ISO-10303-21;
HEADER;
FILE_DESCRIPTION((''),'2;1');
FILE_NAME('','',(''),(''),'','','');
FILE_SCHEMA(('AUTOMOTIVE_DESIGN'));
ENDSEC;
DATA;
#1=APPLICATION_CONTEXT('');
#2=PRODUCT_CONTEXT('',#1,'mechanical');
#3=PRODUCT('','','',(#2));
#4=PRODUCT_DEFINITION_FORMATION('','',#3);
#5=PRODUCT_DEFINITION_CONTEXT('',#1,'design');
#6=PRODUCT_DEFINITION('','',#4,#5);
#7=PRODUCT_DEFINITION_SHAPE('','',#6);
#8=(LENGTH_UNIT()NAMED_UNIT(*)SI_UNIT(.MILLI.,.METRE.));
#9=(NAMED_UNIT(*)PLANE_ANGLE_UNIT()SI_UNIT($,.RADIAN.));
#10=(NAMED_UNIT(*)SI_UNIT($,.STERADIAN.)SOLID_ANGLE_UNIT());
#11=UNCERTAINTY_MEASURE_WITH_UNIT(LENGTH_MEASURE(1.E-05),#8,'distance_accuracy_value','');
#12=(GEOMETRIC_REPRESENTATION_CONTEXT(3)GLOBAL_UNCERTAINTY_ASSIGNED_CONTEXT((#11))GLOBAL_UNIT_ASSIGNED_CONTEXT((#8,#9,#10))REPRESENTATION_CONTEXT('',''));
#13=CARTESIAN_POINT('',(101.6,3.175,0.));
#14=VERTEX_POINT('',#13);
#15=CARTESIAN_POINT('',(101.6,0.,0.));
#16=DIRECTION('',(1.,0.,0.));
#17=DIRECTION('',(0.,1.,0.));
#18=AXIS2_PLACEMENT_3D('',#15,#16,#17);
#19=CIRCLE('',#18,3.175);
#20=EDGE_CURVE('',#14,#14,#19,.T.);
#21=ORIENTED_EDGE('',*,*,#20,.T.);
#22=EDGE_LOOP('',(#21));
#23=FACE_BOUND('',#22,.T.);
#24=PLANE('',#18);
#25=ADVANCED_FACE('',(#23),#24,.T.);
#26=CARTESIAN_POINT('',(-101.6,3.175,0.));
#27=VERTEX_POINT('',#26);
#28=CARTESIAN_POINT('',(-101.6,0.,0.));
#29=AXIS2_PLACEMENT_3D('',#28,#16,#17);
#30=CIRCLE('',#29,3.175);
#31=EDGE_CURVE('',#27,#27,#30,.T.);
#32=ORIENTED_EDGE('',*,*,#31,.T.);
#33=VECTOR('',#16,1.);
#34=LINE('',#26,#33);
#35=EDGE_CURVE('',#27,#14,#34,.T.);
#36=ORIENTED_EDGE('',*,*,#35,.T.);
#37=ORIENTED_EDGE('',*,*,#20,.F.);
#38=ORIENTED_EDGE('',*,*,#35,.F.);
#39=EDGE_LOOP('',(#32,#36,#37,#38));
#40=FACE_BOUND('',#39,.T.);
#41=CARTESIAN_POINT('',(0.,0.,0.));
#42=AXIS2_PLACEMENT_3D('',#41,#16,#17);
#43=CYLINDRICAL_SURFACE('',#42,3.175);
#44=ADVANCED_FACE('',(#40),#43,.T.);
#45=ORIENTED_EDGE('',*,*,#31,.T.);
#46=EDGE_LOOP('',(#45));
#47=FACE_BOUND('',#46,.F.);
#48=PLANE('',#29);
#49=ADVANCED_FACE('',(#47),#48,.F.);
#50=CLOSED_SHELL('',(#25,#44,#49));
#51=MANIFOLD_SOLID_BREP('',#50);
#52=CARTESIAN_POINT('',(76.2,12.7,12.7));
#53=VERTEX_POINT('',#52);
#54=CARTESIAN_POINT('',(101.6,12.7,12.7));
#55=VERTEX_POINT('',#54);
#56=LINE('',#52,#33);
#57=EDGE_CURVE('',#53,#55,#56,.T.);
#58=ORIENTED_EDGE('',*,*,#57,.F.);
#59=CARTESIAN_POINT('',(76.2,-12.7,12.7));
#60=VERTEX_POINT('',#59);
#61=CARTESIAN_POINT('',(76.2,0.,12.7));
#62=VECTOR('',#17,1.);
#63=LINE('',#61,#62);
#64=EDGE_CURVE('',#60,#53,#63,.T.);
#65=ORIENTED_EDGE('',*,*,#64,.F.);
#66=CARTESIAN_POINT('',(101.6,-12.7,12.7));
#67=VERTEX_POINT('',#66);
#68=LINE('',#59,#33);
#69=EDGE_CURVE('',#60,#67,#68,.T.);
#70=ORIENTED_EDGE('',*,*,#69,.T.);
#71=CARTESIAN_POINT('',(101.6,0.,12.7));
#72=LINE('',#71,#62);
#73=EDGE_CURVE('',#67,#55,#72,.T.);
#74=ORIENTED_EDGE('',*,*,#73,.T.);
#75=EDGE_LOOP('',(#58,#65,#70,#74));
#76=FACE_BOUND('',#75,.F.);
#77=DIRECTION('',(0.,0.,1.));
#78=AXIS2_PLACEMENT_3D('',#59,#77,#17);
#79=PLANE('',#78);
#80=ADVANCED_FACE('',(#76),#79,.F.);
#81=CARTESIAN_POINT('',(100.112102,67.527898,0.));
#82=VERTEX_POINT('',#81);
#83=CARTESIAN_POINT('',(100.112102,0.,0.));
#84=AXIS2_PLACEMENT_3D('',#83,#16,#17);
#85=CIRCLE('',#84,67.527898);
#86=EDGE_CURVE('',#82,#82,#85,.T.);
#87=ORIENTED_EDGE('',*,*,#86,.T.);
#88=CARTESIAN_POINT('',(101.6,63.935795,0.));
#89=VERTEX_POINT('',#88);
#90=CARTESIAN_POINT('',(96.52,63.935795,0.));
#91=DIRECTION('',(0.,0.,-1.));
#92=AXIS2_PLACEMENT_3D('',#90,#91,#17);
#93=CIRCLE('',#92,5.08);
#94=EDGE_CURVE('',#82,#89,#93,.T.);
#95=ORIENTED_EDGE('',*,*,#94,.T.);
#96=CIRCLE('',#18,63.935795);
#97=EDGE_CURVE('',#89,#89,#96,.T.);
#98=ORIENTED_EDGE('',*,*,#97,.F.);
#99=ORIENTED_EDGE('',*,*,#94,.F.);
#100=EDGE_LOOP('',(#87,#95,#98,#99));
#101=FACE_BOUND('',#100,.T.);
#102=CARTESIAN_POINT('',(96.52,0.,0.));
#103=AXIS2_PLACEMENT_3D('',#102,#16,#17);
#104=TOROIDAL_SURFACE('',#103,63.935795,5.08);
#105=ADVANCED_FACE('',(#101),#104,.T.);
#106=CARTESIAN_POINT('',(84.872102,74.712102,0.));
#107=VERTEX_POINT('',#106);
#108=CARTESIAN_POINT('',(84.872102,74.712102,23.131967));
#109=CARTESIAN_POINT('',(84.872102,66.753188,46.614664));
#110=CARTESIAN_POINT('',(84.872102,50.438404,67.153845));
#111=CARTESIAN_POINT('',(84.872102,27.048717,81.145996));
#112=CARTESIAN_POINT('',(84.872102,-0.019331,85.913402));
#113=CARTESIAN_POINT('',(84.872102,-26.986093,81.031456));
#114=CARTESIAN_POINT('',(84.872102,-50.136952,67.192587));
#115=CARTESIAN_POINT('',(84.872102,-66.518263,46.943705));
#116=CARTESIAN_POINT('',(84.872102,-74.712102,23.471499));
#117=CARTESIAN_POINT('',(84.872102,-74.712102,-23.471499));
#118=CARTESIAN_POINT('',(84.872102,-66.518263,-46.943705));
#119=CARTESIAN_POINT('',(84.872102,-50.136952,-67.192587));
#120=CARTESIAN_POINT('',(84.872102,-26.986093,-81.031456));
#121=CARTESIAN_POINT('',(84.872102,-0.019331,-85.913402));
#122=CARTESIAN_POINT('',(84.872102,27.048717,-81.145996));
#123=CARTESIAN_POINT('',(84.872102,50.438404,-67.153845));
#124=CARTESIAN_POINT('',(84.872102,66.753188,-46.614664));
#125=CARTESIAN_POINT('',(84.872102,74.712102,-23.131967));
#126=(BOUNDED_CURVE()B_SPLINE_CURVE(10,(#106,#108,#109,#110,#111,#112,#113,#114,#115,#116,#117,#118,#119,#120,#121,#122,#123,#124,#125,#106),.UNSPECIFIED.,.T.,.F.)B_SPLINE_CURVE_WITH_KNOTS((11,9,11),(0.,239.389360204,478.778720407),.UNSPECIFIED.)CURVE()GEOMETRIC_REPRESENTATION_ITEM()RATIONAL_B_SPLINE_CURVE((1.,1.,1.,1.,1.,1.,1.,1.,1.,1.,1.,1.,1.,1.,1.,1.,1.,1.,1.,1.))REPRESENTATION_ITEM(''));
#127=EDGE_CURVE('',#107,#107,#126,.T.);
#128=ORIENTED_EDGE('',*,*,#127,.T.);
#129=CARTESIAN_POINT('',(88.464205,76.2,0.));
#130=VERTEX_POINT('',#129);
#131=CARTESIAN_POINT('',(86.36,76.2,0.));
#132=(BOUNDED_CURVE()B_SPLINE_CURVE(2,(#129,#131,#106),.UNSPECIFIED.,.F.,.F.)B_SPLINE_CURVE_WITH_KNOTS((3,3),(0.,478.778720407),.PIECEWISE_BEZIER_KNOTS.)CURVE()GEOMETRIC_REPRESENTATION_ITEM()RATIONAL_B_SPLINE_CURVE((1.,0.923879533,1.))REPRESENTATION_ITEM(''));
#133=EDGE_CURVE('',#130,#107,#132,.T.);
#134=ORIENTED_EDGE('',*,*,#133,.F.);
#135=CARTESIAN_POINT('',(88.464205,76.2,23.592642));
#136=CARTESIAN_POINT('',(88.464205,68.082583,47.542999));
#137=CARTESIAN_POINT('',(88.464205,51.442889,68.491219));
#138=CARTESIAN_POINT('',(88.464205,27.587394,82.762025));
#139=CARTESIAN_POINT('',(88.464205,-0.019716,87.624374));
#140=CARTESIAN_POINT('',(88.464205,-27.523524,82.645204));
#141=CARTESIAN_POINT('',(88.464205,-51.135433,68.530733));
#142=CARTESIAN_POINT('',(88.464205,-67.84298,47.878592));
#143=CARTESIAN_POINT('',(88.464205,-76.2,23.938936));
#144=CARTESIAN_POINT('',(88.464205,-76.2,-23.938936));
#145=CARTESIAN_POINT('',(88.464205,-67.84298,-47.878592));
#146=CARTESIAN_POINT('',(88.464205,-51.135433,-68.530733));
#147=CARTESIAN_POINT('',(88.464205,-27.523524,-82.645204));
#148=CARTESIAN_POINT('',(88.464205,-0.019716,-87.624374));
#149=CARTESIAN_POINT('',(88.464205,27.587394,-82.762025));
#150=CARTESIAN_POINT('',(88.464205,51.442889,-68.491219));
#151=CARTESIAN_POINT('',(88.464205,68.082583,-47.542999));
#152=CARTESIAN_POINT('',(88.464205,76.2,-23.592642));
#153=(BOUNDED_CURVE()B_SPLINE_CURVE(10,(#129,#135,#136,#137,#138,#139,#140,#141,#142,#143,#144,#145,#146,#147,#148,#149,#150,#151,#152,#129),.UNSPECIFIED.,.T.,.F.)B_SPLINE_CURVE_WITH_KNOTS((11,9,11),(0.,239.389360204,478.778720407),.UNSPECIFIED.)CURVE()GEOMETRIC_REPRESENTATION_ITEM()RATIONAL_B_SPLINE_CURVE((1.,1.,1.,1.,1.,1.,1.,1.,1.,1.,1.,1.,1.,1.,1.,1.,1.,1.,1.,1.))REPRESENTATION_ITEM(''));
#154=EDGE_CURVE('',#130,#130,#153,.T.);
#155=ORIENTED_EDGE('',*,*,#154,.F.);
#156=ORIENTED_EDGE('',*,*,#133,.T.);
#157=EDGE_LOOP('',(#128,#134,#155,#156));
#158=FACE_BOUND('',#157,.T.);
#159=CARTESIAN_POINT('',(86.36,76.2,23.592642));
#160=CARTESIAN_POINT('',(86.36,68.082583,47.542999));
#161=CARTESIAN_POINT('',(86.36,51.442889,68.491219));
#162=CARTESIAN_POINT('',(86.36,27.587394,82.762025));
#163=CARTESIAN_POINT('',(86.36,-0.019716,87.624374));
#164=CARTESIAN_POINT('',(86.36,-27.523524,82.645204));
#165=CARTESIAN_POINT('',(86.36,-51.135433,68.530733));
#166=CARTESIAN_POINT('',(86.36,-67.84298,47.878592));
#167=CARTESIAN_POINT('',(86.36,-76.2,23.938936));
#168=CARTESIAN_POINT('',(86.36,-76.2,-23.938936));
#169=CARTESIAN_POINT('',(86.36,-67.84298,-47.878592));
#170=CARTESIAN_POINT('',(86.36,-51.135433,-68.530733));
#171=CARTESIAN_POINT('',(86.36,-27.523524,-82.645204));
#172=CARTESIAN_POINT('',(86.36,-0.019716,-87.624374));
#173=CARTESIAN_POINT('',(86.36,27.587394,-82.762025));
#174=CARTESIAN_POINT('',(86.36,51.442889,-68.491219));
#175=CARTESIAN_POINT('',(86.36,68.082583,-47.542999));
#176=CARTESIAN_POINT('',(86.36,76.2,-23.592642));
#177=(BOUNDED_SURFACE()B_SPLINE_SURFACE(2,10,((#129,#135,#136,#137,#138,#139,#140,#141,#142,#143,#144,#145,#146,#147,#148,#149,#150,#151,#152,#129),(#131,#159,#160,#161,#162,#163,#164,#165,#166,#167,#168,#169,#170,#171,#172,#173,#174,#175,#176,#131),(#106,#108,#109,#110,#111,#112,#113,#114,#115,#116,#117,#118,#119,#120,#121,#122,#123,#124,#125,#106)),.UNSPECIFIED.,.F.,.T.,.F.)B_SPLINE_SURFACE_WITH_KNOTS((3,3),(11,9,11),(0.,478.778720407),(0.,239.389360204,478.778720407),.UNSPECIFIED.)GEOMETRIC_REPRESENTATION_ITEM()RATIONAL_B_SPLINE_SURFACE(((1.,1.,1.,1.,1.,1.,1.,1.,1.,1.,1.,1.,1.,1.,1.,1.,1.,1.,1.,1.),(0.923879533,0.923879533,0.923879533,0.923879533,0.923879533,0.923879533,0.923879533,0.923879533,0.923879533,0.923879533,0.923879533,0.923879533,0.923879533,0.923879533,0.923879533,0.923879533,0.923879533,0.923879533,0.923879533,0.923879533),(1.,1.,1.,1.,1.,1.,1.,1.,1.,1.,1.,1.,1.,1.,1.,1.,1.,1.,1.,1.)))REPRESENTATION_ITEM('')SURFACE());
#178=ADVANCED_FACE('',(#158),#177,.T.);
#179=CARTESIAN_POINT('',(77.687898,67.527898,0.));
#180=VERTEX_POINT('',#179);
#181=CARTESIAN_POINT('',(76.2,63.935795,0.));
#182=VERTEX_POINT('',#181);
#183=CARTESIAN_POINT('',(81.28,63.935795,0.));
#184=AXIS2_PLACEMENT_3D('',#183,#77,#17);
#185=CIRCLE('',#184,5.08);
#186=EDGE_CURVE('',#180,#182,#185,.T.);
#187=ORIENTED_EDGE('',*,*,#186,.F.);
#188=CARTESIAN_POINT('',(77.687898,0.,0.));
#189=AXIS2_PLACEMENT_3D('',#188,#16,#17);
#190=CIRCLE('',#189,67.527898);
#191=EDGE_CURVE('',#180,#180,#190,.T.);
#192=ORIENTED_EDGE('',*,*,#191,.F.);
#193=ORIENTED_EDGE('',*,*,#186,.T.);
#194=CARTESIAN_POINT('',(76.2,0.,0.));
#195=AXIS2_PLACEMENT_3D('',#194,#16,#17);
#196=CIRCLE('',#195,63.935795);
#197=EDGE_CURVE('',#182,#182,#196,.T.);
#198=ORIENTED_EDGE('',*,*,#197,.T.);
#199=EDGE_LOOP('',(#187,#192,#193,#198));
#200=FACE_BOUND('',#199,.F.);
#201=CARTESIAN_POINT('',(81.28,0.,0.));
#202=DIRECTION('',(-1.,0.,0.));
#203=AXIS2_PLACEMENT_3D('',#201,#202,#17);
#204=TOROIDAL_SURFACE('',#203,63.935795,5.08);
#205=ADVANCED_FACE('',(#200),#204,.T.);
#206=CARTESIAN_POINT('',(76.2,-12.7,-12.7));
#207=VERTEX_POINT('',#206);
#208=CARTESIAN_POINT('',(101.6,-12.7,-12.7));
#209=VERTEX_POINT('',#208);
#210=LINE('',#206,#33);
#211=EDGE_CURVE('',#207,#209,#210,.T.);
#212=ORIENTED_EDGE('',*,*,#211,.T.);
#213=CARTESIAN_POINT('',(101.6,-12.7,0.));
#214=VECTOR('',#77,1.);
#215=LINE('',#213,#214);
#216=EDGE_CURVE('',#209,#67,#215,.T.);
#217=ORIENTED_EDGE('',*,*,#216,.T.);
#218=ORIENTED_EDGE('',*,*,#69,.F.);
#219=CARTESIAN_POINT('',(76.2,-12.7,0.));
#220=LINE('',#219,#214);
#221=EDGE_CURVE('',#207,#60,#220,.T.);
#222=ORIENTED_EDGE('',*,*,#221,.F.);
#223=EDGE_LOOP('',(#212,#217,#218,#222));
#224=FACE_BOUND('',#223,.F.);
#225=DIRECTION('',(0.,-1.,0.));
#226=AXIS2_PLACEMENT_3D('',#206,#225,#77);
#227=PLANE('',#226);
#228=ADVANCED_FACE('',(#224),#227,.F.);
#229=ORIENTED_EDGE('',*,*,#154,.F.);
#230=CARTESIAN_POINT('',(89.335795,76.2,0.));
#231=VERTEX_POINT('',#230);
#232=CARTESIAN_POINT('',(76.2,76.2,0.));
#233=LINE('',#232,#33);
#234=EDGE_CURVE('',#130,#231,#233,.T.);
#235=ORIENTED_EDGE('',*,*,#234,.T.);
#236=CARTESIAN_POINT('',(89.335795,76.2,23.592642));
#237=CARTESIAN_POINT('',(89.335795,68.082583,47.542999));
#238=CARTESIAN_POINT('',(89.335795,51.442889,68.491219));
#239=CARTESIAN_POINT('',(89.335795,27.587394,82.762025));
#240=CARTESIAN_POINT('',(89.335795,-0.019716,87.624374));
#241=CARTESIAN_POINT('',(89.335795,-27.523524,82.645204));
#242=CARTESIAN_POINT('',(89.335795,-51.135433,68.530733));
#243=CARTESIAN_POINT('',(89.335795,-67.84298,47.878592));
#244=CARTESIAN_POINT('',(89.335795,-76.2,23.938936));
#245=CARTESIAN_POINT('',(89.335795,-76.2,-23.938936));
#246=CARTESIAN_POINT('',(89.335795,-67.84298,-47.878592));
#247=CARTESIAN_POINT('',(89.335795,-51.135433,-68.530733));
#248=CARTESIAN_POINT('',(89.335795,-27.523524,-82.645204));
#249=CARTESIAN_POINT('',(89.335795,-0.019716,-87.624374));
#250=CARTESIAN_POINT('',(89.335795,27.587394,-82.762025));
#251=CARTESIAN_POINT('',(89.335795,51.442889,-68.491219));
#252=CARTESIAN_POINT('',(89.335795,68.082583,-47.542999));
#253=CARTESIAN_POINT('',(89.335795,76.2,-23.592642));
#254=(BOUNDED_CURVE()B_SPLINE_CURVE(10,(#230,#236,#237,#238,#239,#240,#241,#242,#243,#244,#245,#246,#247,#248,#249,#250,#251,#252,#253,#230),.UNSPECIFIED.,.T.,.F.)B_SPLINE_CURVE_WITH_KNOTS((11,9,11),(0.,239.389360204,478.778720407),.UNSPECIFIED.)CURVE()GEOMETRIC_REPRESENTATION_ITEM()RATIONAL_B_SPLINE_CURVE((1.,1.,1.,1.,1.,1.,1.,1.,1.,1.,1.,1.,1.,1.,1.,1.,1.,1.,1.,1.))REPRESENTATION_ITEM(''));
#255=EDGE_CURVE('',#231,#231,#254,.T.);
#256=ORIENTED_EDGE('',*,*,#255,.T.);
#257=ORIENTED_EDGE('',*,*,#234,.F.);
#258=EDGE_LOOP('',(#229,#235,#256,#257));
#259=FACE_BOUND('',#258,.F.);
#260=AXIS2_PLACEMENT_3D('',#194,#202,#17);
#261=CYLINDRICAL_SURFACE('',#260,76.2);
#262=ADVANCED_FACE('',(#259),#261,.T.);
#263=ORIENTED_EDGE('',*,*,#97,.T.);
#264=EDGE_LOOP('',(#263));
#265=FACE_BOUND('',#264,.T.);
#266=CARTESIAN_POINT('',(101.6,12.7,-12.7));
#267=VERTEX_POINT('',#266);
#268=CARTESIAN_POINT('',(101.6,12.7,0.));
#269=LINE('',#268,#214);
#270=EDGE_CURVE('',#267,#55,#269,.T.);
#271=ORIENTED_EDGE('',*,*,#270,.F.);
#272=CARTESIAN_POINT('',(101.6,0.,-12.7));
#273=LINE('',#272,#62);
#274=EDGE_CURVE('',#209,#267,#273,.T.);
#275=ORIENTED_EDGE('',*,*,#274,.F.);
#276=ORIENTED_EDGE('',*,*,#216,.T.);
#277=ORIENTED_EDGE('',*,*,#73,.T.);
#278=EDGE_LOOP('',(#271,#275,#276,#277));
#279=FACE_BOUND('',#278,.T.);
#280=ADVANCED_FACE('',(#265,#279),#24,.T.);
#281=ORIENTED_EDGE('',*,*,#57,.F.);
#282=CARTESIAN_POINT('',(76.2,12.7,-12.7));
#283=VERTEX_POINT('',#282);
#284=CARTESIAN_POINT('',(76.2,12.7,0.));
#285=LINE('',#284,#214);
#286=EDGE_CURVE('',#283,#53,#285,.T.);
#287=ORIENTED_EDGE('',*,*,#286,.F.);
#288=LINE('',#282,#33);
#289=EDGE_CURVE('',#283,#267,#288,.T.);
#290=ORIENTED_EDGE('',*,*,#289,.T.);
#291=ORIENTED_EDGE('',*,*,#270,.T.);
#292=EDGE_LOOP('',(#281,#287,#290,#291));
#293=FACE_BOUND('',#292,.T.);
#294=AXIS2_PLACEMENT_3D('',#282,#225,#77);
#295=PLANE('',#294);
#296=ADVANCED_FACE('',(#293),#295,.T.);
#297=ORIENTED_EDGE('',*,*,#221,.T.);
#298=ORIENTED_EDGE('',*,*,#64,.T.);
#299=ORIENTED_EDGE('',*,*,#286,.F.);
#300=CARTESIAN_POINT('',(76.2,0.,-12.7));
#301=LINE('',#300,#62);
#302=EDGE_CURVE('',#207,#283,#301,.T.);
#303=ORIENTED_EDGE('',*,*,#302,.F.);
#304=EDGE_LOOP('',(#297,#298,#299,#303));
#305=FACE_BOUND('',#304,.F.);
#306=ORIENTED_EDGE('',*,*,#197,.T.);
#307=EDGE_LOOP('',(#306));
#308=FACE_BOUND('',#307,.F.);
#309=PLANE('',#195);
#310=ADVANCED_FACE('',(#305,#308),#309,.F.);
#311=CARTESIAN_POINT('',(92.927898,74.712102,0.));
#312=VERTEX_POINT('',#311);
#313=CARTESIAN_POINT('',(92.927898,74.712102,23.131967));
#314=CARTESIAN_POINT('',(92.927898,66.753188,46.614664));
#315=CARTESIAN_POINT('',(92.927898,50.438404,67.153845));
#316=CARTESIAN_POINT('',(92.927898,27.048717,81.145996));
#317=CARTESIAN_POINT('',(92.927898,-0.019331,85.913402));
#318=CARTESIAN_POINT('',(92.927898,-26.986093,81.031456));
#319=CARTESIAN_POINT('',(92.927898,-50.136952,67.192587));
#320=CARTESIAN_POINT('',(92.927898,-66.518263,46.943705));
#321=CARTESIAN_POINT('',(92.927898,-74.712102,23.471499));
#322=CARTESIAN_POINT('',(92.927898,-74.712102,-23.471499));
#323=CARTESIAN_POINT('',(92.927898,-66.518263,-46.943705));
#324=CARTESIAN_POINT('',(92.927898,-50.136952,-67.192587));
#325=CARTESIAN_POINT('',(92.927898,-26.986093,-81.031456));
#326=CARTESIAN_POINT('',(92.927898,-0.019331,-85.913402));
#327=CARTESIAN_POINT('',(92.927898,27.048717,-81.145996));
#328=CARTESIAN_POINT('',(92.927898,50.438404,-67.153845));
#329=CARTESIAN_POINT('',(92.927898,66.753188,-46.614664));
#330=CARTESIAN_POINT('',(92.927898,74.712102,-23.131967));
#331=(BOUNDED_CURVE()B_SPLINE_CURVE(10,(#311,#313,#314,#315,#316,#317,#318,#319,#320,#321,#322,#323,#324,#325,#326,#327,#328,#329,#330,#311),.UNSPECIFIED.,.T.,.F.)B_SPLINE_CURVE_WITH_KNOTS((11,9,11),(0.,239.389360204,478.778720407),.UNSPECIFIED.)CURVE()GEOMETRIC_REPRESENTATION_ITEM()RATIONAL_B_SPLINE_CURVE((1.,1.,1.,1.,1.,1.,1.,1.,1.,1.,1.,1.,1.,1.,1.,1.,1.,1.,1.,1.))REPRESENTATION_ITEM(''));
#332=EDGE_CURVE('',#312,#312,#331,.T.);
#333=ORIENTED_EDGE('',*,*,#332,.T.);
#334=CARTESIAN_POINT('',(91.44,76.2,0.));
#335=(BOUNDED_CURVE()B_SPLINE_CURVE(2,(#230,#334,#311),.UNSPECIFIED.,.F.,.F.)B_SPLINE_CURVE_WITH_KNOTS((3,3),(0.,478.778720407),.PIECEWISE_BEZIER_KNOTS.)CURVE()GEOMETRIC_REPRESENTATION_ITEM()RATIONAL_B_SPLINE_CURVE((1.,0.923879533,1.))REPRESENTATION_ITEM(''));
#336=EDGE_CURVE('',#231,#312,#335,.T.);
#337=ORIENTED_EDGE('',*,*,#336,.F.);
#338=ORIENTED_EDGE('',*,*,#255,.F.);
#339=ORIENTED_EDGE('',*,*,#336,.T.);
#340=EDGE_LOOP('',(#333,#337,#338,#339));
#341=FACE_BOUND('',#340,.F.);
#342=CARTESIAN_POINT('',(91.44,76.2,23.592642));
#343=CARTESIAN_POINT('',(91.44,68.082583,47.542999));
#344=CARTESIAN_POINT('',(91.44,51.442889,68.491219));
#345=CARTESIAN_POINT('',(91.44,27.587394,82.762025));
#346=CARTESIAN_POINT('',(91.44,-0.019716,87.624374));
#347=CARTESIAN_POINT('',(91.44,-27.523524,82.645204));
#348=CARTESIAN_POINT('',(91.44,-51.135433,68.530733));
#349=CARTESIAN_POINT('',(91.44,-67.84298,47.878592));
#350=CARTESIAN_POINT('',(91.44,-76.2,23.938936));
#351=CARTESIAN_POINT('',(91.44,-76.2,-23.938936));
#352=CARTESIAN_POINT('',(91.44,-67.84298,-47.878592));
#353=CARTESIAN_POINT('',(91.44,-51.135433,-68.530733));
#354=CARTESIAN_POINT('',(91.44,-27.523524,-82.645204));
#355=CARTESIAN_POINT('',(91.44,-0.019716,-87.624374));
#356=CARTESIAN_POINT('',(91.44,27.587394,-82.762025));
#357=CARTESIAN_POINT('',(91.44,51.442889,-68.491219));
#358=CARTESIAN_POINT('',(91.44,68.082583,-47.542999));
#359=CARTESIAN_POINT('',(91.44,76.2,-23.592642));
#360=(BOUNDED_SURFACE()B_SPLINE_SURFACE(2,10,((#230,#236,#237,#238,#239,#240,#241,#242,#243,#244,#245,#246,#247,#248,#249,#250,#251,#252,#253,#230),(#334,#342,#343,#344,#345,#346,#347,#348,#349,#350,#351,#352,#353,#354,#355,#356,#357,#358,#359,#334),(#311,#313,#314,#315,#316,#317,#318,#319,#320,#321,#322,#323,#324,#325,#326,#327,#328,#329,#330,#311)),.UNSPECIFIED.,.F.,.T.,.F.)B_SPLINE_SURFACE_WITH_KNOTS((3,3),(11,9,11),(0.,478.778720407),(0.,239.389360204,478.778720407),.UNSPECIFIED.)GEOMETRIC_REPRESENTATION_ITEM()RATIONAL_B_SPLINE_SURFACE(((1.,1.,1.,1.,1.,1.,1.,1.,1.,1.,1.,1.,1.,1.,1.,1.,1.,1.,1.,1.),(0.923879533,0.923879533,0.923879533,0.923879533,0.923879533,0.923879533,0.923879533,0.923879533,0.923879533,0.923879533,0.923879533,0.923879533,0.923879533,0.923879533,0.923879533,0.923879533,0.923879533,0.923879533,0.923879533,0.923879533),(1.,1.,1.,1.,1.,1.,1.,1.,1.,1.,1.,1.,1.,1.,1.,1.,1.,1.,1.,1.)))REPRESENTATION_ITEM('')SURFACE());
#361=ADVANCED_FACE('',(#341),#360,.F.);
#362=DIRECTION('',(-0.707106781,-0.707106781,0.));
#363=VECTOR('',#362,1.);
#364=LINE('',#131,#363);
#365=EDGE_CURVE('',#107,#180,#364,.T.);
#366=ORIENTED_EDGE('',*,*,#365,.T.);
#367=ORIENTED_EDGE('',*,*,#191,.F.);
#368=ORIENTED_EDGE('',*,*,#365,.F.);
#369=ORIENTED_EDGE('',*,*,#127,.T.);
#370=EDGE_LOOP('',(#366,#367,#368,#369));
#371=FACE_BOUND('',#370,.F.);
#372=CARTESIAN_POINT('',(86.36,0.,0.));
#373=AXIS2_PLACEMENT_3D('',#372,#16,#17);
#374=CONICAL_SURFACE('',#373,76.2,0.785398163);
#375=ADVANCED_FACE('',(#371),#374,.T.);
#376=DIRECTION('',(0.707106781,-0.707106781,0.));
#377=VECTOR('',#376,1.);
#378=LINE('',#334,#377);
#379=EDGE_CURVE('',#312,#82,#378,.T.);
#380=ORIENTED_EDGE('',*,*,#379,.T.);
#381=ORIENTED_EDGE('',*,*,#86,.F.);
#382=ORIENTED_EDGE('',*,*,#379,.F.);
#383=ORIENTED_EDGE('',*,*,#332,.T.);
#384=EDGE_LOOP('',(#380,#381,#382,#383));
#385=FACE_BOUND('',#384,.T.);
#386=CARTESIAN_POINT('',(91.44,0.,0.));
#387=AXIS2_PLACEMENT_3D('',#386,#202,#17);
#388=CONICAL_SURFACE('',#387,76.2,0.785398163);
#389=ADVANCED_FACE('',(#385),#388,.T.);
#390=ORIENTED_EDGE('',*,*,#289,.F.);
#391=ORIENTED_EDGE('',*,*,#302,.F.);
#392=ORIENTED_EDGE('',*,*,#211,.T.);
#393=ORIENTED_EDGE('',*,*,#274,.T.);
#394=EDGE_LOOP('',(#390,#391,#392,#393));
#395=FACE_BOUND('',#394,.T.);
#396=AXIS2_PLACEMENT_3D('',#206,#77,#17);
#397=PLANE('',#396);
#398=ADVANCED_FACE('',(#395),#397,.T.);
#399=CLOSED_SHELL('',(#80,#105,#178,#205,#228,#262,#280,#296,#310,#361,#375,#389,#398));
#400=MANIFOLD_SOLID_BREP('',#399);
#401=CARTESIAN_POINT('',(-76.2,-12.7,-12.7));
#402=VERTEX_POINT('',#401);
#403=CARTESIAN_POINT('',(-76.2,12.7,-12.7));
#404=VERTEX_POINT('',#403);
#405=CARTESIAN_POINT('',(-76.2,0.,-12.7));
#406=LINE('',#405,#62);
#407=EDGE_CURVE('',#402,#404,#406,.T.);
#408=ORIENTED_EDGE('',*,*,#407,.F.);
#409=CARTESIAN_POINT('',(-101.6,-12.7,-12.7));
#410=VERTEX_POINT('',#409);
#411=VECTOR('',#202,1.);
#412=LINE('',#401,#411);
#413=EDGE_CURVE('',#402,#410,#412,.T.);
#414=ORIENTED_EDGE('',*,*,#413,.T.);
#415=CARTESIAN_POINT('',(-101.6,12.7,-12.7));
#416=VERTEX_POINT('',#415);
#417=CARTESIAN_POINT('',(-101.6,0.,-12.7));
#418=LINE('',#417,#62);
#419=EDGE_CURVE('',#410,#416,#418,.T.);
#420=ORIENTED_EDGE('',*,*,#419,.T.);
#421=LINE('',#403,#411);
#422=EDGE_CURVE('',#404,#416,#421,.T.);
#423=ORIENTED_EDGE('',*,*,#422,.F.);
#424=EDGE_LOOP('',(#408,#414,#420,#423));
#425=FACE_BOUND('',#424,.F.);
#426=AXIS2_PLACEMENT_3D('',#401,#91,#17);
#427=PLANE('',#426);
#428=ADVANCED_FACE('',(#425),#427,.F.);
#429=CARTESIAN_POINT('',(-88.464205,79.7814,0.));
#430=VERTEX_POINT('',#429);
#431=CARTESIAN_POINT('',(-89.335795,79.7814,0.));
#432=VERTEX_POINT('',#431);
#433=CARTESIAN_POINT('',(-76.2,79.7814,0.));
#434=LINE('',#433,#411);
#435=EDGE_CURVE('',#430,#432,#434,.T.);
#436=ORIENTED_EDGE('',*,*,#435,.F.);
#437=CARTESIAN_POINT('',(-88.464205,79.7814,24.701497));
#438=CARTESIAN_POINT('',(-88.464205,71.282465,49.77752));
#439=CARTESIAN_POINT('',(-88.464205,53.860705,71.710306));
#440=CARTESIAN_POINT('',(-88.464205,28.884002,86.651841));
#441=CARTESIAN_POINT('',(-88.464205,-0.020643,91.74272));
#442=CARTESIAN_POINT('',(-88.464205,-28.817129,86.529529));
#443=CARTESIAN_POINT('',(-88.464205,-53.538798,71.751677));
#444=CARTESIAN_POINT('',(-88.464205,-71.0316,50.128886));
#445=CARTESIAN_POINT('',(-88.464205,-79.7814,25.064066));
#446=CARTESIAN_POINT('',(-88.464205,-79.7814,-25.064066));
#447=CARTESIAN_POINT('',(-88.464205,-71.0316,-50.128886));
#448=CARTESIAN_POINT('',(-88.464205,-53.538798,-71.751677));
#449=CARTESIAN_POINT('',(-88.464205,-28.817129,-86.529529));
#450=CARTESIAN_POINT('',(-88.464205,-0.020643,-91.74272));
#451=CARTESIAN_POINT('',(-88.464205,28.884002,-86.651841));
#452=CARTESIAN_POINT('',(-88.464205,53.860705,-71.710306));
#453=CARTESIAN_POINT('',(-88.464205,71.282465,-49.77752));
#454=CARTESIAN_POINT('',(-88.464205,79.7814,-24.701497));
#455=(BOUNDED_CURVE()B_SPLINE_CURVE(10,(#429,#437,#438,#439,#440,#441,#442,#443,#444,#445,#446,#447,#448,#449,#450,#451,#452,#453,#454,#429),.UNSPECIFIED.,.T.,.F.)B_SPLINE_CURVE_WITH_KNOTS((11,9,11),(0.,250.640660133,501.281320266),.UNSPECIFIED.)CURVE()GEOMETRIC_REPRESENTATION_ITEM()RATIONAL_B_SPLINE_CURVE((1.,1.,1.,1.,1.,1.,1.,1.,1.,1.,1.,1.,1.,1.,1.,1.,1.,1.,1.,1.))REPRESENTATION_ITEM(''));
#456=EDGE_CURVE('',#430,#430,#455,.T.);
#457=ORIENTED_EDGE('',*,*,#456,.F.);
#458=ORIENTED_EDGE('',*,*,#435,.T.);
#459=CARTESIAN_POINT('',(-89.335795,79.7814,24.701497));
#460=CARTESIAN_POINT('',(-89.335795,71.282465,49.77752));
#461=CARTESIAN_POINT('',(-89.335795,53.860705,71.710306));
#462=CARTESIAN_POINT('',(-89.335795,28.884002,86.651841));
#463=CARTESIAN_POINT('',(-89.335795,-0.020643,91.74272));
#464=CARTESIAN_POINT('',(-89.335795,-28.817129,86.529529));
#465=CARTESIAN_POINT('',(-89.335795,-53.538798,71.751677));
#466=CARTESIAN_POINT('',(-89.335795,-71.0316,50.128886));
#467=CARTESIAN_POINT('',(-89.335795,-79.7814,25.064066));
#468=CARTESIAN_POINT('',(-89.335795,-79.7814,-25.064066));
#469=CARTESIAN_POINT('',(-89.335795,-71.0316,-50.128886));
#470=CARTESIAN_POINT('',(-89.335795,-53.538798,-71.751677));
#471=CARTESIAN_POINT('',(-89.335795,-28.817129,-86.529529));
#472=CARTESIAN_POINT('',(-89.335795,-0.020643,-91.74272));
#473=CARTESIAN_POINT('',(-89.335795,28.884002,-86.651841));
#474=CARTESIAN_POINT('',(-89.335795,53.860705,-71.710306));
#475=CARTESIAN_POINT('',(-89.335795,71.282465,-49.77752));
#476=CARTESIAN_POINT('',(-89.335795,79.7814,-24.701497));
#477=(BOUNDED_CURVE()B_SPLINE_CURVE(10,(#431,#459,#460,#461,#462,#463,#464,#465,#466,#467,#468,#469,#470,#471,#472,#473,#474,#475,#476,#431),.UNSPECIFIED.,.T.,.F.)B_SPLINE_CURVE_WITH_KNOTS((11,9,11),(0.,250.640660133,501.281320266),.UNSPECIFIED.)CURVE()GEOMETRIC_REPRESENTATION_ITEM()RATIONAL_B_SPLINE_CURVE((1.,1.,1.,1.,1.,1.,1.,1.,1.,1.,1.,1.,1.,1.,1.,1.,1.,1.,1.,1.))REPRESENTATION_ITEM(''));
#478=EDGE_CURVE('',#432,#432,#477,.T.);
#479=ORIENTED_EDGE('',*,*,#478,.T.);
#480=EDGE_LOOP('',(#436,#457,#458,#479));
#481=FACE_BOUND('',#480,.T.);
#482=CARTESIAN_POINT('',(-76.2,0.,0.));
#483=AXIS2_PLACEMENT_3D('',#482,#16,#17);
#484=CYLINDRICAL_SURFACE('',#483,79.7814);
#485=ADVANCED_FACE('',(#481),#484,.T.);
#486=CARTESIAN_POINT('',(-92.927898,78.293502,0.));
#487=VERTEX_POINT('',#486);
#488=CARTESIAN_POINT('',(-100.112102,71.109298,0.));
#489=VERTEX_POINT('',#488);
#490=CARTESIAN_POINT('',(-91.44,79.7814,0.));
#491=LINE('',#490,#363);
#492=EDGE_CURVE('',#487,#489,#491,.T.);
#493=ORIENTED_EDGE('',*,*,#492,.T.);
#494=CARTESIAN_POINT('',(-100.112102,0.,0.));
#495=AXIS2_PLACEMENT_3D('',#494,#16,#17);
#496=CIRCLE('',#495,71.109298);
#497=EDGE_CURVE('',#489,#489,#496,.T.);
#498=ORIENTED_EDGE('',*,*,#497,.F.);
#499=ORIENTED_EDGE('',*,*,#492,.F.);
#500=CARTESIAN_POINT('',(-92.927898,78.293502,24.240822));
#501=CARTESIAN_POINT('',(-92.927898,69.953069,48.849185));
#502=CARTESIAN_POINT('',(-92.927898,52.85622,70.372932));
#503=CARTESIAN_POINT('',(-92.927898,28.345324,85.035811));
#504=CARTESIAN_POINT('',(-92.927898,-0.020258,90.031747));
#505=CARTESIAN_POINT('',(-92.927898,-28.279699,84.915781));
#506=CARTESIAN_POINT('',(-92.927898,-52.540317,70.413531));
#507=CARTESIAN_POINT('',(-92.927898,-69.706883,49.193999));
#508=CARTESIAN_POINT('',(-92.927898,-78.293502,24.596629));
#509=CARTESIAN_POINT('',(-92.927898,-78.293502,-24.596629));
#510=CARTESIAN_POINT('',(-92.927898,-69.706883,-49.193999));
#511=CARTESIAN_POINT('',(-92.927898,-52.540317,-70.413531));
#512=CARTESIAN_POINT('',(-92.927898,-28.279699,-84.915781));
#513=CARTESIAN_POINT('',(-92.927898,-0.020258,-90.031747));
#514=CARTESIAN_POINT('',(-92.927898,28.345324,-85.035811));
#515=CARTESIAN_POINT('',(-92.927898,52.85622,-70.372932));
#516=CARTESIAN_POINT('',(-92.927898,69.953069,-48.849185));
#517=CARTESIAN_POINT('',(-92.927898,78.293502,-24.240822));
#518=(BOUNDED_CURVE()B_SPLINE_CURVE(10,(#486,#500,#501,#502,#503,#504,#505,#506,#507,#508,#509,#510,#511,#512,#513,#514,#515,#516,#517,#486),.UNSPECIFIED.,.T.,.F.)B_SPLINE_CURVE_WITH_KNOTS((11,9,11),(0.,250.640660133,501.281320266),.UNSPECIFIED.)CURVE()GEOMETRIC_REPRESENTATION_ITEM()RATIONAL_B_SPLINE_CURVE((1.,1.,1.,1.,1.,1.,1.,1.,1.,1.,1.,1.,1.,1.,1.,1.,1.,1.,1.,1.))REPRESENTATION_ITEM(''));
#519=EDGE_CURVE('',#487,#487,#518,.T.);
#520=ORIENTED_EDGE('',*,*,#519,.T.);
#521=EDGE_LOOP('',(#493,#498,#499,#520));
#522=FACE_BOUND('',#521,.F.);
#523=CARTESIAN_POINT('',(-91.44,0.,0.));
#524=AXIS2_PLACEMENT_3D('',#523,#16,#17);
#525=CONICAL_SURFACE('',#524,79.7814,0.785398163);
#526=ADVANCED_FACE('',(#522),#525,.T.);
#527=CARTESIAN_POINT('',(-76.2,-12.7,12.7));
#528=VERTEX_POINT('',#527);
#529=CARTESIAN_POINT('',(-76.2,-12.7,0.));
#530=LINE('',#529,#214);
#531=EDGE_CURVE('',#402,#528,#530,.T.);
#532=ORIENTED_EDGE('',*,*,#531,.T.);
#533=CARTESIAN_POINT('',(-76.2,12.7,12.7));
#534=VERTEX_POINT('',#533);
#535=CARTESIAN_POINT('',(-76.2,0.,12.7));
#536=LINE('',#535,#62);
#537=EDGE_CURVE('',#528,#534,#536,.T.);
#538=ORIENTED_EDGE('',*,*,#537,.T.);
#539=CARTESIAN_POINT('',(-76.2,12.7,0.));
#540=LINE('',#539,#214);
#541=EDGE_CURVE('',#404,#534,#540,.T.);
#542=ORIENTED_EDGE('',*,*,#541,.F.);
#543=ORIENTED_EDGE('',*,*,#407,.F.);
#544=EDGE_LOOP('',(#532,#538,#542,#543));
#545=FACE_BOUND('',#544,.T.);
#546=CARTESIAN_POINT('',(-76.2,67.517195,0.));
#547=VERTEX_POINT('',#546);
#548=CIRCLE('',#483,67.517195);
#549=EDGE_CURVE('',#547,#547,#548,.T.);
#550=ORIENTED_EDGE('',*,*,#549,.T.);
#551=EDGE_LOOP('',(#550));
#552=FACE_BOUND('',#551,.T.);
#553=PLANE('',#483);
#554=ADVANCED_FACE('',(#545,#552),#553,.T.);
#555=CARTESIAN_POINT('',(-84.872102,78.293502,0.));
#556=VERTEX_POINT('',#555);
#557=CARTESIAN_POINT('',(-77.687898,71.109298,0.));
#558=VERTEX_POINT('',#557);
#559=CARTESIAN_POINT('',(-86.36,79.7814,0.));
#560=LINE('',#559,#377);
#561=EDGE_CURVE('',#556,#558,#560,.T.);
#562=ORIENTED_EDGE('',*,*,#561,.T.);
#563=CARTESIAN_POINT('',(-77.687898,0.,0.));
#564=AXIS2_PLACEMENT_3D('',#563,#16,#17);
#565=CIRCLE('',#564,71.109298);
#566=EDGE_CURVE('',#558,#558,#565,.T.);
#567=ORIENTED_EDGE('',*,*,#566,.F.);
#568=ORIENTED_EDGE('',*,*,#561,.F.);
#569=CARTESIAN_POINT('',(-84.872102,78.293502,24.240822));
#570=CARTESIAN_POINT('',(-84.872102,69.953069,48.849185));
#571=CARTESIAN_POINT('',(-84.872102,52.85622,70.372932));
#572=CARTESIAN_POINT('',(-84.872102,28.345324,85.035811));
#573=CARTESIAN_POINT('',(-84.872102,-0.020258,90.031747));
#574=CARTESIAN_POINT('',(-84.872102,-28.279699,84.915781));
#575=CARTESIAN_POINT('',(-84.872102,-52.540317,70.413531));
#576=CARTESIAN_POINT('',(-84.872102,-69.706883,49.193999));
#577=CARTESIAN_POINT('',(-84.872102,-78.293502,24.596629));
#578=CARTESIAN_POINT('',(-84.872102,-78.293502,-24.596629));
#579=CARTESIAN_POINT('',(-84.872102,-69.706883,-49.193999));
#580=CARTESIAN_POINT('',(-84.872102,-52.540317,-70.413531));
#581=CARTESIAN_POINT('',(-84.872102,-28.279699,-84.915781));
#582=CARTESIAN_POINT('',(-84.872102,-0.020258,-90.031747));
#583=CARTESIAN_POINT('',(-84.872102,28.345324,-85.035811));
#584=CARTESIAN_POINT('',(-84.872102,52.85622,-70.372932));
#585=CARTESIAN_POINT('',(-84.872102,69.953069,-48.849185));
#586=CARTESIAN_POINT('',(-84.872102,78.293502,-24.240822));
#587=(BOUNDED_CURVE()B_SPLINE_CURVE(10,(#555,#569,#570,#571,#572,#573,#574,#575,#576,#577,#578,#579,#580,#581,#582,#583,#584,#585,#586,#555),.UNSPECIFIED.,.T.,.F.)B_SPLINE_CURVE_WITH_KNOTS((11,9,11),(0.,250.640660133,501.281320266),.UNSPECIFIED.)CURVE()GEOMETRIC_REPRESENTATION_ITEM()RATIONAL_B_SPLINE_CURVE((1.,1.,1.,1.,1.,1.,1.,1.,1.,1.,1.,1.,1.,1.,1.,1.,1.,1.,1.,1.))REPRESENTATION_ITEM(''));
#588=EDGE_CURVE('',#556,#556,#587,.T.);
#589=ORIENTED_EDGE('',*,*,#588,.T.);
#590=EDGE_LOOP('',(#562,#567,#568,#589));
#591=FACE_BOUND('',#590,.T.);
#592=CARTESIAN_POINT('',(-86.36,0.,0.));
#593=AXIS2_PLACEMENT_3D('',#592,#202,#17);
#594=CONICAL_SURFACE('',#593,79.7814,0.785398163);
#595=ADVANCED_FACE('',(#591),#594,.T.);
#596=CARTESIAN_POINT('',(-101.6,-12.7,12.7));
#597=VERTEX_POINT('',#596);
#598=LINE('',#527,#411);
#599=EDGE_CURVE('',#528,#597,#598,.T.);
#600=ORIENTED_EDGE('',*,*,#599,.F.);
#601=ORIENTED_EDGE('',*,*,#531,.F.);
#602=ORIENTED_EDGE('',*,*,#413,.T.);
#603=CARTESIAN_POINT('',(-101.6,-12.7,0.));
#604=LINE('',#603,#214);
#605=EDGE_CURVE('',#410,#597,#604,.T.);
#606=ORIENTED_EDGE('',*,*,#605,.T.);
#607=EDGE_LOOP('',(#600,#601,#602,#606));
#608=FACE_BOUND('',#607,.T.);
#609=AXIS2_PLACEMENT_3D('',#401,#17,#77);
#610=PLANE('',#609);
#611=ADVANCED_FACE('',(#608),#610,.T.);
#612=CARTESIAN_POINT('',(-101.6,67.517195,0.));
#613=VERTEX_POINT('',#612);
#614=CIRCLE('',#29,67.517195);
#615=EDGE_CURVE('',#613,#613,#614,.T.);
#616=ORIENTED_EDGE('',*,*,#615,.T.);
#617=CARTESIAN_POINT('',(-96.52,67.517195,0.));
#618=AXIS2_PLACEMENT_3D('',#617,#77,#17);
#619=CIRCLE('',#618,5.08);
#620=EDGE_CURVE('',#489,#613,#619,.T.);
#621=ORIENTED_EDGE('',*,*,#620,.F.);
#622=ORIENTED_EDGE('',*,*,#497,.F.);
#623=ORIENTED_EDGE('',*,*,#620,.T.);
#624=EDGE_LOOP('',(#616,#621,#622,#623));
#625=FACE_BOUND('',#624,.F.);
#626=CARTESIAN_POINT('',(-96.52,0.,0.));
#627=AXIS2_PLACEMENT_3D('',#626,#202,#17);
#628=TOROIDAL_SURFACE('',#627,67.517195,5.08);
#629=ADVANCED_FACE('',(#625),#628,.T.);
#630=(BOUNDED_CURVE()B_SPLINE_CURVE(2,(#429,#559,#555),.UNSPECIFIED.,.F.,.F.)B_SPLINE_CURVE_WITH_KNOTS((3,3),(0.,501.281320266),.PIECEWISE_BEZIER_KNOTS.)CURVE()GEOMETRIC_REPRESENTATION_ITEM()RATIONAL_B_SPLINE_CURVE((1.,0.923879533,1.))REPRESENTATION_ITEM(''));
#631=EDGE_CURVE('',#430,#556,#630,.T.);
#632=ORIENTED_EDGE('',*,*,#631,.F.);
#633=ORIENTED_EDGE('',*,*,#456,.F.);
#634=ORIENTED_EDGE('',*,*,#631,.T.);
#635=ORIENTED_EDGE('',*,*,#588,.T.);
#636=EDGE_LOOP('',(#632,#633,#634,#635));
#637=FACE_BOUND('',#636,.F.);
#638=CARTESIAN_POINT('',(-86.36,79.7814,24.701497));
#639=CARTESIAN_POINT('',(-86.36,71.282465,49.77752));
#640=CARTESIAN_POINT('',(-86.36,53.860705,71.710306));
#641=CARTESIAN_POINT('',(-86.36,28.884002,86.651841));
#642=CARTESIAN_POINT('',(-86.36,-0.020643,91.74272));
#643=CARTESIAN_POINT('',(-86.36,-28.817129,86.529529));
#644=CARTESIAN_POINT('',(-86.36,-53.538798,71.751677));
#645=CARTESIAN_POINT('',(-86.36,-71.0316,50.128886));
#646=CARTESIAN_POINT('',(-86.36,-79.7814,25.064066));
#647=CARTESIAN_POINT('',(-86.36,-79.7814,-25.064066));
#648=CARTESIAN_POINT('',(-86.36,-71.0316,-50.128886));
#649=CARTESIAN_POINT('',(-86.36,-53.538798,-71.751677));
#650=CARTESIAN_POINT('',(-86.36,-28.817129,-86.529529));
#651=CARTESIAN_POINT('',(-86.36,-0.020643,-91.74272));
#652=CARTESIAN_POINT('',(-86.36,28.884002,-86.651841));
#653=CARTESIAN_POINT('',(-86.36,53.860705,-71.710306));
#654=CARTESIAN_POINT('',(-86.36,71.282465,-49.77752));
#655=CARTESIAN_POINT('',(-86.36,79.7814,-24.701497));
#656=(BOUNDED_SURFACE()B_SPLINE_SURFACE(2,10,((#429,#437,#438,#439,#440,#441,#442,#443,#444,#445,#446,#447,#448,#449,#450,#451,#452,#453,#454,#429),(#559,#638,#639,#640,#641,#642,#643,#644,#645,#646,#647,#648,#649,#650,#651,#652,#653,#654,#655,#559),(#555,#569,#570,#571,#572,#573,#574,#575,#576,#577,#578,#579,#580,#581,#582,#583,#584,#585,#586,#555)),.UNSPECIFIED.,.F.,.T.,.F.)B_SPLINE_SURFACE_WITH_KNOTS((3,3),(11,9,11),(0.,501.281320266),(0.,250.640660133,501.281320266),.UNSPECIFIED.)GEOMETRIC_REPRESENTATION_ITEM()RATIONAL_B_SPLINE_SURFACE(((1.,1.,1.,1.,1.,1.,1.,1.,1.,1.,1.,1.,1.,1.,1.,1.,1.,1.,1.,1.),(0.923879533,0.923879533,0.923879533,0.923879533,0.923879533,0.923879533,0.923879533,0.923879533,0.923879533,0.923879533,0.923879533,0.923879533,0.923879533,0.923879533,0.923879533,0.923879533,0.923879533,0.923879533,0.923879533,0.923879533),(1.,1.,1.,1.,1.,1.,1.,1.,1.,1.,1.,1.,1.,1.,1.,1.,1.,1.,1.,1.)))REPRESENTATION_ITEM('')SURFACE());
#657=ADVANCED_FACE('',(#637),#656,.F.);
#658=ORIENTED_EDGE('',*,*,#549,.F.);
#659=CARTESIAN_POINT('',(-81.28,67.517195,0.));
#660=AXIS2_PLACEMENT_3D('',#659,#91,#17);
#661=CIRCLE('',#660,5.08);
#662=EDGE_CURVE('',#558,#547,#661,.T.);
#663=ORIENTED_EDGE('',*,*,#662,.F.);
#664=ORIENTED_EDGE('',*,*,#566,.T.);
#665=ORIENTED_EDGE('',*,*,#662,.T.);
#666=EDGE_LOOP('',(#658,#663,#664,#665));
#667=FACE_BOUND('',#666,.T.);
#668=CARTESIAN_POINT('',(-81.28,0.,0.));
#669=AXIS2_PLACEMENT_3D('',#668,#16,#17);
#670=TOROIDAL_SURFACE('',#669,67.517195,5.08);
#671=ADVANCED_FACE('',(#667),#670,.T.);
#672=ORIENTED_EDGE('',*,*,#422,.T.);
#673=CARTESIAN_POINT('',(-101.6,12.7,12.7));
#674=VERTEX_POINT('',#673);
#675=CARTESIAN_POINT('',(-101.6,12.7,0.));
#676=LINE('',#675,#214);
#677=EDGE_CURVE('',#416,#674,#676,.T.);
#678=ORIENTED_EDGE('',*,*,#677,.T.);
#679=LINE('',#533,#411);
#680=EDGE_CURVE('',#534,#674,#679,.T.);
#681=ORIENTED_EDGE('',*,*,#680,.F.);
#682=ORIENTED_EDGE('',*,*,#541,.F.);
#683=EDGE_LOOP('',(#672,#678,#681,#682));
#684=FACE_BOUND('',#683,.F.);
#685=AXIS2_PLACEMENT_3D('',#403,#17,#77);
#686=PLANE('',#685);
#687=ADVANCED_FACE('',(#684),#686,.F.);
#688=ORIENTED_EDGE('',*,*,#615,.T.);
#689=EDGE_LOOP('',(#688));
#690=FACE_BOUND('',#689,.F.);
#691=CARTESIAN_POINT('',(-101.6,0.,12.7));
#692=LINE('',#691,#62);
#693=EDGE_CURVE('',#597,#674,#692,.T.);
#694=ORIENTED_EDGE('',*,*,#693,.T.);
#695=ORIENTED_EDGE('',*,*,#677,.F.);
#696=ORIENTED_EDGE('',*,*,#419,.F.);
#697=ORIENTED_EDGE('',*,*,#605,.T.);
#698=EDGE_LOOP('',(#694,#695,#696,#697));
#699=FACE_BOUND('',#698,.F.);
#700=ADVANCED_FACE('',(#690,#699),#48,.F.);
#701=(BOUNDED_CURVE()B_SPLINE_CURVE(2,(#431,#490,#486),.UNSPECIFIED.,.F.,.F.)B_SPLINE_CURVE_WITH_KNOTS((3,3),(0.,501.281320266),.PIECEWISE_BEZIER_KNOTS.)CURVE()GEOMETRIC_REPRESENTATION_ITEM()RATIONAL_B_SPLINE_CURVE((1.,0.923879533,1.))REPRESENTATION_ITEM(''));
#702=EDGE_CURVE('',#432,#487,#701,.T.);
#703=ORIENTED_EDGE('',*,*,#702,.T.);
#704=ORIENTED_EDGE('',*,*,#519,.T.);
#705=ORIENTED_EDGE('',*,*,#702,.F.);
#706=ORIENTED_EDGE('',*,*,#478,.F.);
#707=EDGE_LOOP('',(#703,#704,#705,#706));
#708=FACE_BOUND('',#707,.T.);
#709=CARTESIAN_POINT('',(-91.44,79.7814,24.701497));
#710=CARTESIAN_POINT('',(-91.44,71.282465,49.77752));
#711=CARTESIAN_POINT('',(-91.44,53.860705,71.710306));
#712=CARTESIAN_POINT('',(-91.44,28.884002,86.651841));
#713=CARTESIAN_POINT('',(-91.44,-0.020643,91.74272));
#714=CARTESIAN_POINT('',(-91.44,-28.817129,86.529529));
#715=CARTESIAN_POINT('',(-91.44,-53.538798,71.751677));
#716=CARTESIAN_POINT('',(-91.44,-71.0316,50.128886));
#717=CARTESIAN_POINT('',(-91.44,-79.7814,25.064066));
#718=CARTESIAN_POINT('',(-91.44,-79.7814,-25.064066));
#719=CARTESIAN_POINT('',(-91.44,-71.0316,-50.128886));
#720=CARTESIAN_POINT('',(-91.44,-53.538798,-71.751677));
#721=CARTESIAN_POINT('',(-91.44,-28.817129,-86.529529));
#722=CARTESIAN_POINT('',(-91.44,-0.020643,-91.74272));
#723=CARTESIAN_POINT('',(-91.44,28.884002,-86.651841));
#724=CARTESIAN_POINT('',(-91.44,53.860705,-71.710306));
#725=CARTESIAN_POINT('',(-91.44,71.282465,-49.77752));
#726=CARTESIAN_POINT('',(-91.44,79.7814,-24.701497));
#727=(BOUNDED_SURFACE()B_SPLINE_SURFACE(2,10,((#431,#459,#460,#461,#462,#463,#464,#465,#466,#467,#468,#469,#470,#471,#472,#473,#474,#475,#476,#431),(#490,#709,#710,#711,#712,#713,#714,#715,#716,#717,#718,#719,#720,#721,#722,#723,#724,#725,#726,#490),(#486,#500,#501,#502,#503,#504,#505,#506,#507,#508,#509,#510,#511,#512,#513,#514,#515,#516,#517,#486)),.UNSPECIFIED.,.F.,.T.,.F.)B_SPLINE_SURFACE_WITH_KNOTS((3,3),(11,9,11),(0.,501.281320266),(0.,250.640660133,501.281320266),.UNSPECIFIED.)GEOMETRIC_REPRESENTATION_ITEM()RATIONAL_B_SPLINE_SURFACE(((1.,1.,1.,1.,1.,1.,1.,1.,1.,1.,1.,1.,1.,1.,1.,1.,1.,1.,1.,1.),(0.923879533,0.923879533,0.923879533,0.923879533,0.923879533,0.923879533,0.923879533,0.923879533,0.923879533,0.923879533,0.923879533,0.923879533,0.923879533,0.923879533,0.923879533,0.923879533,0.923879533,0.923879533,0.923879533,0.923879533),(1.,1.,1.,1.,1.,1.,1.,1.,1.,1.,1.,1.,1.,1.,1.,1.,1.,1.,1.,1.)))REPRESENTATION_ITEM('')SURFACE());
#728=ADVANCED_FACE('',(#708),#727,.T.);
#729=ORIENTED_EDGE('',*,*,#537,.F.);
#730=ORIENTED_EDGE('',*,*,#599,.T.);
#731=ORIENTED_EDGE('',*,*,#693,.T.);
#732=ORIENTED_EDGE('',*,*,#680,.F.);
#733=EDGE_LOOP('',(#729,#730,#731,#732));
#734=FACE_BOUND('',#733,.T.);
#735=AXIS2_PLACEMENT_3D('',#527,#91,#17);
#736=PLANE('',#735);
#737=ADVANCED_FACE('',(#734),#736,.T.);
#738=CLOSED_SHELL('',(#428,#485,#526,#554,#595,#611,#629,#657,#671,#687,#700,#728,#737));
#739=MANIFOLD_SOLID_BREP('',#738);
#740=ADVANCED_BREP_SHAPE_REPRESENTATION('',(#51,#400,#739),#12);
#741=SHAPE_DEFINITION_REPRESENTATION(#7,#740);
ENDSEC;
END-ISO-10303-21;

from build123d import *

# Parameters (mm, degrees)
F2_R      = 3.175
F3_DEPTH  = 101.6
F5_R      = 76.2
F5_W      = 25.4
F5_H      = 25.4
F6_DEPTH  = 25.4
F4_R      = 79.7814
F4_W      = 25.4
F4_H      = 25.4
F7_DEPTH  = 25.4
F8_SIZE   = 10.16
F8_2_SIZE = 10.16
F9_R      = 5.08
F9_2_R    = 5.08


with BuildPart() as f3:
    # F2 (on Right) → F3 (new body, symmetric)
    with BuildSketch(Plane.YZ):
        Circle(F2_R)
    extrude(amount=F3_DEPTH, both=True)


with BuildPart() as f6:
    # F5 (on offset) → F6 (new body)
    with BuildSketch(Plane.YZ.offset(76.2)):
        Circle(F5_R)
        Rectangle(F5_W, F5_H, mode=Mode.SUBTRACT)
    extrude(amount=F6_DEPTH)

    # F8#2
    f8_2_edges = [f6.edges().sort_by_distance(p)[0] for p in [
        (88.9, 76.2, 0),
        (76.2, -76.2, 0),
        (101.6, -76.2, 0),
    ]]
    chamfer(f8_2_edges, length=F8_2_SIZE)

    # F9#2
    f9_2_edges = [f6.edges().sort_by_distance(p)[0] for p in [
        (86.36, -76.2, 0),
        (91.44, -76.2, 0),
        (101.6, -66.04, 0),
        (81.28, 71.12, 0),
        (76.2, -66.04, 0),
    ]]
    fillet(f9_2_edges, radius=F9_2_R)


with BuildPart() as f7:
    # F4 (on offset) → F7 (new body)
    with BuildSketch(Plane.YZ.offset(-76.2)):
        Circle(F4_R)
        Rectangle(F4_W, F4_H, mode=Mode.SUBTRACT)
    extrude(amount=-F7_DEPTH)

    # F8
    f8_edges = [f7.edges().sort_by_distance(p)[0] for p in [
        (-88.9, 79.7814, 0),
        (-76.2, -79.7814, 0),
        (-101.6, -79.7814, 0),
    ]]
    chamfer(f8_edges, length=F8_SIZE)

    # F9
    f9_edges = [f7.edges().sort_by_distance(p)[0] for p in [
        (-88.9, 79.7814, 0),
        (-86.36, -79.7814, 0),
        (-91.44, -79.7814, 0),
        (-101.6, -69.6214, 0),
        (-76.2, -69.6214, 0),
    ]]
    fillet(f9_edges, radius=F9_R)


solid = Compound([f3.part, f6.part, f7.part])
